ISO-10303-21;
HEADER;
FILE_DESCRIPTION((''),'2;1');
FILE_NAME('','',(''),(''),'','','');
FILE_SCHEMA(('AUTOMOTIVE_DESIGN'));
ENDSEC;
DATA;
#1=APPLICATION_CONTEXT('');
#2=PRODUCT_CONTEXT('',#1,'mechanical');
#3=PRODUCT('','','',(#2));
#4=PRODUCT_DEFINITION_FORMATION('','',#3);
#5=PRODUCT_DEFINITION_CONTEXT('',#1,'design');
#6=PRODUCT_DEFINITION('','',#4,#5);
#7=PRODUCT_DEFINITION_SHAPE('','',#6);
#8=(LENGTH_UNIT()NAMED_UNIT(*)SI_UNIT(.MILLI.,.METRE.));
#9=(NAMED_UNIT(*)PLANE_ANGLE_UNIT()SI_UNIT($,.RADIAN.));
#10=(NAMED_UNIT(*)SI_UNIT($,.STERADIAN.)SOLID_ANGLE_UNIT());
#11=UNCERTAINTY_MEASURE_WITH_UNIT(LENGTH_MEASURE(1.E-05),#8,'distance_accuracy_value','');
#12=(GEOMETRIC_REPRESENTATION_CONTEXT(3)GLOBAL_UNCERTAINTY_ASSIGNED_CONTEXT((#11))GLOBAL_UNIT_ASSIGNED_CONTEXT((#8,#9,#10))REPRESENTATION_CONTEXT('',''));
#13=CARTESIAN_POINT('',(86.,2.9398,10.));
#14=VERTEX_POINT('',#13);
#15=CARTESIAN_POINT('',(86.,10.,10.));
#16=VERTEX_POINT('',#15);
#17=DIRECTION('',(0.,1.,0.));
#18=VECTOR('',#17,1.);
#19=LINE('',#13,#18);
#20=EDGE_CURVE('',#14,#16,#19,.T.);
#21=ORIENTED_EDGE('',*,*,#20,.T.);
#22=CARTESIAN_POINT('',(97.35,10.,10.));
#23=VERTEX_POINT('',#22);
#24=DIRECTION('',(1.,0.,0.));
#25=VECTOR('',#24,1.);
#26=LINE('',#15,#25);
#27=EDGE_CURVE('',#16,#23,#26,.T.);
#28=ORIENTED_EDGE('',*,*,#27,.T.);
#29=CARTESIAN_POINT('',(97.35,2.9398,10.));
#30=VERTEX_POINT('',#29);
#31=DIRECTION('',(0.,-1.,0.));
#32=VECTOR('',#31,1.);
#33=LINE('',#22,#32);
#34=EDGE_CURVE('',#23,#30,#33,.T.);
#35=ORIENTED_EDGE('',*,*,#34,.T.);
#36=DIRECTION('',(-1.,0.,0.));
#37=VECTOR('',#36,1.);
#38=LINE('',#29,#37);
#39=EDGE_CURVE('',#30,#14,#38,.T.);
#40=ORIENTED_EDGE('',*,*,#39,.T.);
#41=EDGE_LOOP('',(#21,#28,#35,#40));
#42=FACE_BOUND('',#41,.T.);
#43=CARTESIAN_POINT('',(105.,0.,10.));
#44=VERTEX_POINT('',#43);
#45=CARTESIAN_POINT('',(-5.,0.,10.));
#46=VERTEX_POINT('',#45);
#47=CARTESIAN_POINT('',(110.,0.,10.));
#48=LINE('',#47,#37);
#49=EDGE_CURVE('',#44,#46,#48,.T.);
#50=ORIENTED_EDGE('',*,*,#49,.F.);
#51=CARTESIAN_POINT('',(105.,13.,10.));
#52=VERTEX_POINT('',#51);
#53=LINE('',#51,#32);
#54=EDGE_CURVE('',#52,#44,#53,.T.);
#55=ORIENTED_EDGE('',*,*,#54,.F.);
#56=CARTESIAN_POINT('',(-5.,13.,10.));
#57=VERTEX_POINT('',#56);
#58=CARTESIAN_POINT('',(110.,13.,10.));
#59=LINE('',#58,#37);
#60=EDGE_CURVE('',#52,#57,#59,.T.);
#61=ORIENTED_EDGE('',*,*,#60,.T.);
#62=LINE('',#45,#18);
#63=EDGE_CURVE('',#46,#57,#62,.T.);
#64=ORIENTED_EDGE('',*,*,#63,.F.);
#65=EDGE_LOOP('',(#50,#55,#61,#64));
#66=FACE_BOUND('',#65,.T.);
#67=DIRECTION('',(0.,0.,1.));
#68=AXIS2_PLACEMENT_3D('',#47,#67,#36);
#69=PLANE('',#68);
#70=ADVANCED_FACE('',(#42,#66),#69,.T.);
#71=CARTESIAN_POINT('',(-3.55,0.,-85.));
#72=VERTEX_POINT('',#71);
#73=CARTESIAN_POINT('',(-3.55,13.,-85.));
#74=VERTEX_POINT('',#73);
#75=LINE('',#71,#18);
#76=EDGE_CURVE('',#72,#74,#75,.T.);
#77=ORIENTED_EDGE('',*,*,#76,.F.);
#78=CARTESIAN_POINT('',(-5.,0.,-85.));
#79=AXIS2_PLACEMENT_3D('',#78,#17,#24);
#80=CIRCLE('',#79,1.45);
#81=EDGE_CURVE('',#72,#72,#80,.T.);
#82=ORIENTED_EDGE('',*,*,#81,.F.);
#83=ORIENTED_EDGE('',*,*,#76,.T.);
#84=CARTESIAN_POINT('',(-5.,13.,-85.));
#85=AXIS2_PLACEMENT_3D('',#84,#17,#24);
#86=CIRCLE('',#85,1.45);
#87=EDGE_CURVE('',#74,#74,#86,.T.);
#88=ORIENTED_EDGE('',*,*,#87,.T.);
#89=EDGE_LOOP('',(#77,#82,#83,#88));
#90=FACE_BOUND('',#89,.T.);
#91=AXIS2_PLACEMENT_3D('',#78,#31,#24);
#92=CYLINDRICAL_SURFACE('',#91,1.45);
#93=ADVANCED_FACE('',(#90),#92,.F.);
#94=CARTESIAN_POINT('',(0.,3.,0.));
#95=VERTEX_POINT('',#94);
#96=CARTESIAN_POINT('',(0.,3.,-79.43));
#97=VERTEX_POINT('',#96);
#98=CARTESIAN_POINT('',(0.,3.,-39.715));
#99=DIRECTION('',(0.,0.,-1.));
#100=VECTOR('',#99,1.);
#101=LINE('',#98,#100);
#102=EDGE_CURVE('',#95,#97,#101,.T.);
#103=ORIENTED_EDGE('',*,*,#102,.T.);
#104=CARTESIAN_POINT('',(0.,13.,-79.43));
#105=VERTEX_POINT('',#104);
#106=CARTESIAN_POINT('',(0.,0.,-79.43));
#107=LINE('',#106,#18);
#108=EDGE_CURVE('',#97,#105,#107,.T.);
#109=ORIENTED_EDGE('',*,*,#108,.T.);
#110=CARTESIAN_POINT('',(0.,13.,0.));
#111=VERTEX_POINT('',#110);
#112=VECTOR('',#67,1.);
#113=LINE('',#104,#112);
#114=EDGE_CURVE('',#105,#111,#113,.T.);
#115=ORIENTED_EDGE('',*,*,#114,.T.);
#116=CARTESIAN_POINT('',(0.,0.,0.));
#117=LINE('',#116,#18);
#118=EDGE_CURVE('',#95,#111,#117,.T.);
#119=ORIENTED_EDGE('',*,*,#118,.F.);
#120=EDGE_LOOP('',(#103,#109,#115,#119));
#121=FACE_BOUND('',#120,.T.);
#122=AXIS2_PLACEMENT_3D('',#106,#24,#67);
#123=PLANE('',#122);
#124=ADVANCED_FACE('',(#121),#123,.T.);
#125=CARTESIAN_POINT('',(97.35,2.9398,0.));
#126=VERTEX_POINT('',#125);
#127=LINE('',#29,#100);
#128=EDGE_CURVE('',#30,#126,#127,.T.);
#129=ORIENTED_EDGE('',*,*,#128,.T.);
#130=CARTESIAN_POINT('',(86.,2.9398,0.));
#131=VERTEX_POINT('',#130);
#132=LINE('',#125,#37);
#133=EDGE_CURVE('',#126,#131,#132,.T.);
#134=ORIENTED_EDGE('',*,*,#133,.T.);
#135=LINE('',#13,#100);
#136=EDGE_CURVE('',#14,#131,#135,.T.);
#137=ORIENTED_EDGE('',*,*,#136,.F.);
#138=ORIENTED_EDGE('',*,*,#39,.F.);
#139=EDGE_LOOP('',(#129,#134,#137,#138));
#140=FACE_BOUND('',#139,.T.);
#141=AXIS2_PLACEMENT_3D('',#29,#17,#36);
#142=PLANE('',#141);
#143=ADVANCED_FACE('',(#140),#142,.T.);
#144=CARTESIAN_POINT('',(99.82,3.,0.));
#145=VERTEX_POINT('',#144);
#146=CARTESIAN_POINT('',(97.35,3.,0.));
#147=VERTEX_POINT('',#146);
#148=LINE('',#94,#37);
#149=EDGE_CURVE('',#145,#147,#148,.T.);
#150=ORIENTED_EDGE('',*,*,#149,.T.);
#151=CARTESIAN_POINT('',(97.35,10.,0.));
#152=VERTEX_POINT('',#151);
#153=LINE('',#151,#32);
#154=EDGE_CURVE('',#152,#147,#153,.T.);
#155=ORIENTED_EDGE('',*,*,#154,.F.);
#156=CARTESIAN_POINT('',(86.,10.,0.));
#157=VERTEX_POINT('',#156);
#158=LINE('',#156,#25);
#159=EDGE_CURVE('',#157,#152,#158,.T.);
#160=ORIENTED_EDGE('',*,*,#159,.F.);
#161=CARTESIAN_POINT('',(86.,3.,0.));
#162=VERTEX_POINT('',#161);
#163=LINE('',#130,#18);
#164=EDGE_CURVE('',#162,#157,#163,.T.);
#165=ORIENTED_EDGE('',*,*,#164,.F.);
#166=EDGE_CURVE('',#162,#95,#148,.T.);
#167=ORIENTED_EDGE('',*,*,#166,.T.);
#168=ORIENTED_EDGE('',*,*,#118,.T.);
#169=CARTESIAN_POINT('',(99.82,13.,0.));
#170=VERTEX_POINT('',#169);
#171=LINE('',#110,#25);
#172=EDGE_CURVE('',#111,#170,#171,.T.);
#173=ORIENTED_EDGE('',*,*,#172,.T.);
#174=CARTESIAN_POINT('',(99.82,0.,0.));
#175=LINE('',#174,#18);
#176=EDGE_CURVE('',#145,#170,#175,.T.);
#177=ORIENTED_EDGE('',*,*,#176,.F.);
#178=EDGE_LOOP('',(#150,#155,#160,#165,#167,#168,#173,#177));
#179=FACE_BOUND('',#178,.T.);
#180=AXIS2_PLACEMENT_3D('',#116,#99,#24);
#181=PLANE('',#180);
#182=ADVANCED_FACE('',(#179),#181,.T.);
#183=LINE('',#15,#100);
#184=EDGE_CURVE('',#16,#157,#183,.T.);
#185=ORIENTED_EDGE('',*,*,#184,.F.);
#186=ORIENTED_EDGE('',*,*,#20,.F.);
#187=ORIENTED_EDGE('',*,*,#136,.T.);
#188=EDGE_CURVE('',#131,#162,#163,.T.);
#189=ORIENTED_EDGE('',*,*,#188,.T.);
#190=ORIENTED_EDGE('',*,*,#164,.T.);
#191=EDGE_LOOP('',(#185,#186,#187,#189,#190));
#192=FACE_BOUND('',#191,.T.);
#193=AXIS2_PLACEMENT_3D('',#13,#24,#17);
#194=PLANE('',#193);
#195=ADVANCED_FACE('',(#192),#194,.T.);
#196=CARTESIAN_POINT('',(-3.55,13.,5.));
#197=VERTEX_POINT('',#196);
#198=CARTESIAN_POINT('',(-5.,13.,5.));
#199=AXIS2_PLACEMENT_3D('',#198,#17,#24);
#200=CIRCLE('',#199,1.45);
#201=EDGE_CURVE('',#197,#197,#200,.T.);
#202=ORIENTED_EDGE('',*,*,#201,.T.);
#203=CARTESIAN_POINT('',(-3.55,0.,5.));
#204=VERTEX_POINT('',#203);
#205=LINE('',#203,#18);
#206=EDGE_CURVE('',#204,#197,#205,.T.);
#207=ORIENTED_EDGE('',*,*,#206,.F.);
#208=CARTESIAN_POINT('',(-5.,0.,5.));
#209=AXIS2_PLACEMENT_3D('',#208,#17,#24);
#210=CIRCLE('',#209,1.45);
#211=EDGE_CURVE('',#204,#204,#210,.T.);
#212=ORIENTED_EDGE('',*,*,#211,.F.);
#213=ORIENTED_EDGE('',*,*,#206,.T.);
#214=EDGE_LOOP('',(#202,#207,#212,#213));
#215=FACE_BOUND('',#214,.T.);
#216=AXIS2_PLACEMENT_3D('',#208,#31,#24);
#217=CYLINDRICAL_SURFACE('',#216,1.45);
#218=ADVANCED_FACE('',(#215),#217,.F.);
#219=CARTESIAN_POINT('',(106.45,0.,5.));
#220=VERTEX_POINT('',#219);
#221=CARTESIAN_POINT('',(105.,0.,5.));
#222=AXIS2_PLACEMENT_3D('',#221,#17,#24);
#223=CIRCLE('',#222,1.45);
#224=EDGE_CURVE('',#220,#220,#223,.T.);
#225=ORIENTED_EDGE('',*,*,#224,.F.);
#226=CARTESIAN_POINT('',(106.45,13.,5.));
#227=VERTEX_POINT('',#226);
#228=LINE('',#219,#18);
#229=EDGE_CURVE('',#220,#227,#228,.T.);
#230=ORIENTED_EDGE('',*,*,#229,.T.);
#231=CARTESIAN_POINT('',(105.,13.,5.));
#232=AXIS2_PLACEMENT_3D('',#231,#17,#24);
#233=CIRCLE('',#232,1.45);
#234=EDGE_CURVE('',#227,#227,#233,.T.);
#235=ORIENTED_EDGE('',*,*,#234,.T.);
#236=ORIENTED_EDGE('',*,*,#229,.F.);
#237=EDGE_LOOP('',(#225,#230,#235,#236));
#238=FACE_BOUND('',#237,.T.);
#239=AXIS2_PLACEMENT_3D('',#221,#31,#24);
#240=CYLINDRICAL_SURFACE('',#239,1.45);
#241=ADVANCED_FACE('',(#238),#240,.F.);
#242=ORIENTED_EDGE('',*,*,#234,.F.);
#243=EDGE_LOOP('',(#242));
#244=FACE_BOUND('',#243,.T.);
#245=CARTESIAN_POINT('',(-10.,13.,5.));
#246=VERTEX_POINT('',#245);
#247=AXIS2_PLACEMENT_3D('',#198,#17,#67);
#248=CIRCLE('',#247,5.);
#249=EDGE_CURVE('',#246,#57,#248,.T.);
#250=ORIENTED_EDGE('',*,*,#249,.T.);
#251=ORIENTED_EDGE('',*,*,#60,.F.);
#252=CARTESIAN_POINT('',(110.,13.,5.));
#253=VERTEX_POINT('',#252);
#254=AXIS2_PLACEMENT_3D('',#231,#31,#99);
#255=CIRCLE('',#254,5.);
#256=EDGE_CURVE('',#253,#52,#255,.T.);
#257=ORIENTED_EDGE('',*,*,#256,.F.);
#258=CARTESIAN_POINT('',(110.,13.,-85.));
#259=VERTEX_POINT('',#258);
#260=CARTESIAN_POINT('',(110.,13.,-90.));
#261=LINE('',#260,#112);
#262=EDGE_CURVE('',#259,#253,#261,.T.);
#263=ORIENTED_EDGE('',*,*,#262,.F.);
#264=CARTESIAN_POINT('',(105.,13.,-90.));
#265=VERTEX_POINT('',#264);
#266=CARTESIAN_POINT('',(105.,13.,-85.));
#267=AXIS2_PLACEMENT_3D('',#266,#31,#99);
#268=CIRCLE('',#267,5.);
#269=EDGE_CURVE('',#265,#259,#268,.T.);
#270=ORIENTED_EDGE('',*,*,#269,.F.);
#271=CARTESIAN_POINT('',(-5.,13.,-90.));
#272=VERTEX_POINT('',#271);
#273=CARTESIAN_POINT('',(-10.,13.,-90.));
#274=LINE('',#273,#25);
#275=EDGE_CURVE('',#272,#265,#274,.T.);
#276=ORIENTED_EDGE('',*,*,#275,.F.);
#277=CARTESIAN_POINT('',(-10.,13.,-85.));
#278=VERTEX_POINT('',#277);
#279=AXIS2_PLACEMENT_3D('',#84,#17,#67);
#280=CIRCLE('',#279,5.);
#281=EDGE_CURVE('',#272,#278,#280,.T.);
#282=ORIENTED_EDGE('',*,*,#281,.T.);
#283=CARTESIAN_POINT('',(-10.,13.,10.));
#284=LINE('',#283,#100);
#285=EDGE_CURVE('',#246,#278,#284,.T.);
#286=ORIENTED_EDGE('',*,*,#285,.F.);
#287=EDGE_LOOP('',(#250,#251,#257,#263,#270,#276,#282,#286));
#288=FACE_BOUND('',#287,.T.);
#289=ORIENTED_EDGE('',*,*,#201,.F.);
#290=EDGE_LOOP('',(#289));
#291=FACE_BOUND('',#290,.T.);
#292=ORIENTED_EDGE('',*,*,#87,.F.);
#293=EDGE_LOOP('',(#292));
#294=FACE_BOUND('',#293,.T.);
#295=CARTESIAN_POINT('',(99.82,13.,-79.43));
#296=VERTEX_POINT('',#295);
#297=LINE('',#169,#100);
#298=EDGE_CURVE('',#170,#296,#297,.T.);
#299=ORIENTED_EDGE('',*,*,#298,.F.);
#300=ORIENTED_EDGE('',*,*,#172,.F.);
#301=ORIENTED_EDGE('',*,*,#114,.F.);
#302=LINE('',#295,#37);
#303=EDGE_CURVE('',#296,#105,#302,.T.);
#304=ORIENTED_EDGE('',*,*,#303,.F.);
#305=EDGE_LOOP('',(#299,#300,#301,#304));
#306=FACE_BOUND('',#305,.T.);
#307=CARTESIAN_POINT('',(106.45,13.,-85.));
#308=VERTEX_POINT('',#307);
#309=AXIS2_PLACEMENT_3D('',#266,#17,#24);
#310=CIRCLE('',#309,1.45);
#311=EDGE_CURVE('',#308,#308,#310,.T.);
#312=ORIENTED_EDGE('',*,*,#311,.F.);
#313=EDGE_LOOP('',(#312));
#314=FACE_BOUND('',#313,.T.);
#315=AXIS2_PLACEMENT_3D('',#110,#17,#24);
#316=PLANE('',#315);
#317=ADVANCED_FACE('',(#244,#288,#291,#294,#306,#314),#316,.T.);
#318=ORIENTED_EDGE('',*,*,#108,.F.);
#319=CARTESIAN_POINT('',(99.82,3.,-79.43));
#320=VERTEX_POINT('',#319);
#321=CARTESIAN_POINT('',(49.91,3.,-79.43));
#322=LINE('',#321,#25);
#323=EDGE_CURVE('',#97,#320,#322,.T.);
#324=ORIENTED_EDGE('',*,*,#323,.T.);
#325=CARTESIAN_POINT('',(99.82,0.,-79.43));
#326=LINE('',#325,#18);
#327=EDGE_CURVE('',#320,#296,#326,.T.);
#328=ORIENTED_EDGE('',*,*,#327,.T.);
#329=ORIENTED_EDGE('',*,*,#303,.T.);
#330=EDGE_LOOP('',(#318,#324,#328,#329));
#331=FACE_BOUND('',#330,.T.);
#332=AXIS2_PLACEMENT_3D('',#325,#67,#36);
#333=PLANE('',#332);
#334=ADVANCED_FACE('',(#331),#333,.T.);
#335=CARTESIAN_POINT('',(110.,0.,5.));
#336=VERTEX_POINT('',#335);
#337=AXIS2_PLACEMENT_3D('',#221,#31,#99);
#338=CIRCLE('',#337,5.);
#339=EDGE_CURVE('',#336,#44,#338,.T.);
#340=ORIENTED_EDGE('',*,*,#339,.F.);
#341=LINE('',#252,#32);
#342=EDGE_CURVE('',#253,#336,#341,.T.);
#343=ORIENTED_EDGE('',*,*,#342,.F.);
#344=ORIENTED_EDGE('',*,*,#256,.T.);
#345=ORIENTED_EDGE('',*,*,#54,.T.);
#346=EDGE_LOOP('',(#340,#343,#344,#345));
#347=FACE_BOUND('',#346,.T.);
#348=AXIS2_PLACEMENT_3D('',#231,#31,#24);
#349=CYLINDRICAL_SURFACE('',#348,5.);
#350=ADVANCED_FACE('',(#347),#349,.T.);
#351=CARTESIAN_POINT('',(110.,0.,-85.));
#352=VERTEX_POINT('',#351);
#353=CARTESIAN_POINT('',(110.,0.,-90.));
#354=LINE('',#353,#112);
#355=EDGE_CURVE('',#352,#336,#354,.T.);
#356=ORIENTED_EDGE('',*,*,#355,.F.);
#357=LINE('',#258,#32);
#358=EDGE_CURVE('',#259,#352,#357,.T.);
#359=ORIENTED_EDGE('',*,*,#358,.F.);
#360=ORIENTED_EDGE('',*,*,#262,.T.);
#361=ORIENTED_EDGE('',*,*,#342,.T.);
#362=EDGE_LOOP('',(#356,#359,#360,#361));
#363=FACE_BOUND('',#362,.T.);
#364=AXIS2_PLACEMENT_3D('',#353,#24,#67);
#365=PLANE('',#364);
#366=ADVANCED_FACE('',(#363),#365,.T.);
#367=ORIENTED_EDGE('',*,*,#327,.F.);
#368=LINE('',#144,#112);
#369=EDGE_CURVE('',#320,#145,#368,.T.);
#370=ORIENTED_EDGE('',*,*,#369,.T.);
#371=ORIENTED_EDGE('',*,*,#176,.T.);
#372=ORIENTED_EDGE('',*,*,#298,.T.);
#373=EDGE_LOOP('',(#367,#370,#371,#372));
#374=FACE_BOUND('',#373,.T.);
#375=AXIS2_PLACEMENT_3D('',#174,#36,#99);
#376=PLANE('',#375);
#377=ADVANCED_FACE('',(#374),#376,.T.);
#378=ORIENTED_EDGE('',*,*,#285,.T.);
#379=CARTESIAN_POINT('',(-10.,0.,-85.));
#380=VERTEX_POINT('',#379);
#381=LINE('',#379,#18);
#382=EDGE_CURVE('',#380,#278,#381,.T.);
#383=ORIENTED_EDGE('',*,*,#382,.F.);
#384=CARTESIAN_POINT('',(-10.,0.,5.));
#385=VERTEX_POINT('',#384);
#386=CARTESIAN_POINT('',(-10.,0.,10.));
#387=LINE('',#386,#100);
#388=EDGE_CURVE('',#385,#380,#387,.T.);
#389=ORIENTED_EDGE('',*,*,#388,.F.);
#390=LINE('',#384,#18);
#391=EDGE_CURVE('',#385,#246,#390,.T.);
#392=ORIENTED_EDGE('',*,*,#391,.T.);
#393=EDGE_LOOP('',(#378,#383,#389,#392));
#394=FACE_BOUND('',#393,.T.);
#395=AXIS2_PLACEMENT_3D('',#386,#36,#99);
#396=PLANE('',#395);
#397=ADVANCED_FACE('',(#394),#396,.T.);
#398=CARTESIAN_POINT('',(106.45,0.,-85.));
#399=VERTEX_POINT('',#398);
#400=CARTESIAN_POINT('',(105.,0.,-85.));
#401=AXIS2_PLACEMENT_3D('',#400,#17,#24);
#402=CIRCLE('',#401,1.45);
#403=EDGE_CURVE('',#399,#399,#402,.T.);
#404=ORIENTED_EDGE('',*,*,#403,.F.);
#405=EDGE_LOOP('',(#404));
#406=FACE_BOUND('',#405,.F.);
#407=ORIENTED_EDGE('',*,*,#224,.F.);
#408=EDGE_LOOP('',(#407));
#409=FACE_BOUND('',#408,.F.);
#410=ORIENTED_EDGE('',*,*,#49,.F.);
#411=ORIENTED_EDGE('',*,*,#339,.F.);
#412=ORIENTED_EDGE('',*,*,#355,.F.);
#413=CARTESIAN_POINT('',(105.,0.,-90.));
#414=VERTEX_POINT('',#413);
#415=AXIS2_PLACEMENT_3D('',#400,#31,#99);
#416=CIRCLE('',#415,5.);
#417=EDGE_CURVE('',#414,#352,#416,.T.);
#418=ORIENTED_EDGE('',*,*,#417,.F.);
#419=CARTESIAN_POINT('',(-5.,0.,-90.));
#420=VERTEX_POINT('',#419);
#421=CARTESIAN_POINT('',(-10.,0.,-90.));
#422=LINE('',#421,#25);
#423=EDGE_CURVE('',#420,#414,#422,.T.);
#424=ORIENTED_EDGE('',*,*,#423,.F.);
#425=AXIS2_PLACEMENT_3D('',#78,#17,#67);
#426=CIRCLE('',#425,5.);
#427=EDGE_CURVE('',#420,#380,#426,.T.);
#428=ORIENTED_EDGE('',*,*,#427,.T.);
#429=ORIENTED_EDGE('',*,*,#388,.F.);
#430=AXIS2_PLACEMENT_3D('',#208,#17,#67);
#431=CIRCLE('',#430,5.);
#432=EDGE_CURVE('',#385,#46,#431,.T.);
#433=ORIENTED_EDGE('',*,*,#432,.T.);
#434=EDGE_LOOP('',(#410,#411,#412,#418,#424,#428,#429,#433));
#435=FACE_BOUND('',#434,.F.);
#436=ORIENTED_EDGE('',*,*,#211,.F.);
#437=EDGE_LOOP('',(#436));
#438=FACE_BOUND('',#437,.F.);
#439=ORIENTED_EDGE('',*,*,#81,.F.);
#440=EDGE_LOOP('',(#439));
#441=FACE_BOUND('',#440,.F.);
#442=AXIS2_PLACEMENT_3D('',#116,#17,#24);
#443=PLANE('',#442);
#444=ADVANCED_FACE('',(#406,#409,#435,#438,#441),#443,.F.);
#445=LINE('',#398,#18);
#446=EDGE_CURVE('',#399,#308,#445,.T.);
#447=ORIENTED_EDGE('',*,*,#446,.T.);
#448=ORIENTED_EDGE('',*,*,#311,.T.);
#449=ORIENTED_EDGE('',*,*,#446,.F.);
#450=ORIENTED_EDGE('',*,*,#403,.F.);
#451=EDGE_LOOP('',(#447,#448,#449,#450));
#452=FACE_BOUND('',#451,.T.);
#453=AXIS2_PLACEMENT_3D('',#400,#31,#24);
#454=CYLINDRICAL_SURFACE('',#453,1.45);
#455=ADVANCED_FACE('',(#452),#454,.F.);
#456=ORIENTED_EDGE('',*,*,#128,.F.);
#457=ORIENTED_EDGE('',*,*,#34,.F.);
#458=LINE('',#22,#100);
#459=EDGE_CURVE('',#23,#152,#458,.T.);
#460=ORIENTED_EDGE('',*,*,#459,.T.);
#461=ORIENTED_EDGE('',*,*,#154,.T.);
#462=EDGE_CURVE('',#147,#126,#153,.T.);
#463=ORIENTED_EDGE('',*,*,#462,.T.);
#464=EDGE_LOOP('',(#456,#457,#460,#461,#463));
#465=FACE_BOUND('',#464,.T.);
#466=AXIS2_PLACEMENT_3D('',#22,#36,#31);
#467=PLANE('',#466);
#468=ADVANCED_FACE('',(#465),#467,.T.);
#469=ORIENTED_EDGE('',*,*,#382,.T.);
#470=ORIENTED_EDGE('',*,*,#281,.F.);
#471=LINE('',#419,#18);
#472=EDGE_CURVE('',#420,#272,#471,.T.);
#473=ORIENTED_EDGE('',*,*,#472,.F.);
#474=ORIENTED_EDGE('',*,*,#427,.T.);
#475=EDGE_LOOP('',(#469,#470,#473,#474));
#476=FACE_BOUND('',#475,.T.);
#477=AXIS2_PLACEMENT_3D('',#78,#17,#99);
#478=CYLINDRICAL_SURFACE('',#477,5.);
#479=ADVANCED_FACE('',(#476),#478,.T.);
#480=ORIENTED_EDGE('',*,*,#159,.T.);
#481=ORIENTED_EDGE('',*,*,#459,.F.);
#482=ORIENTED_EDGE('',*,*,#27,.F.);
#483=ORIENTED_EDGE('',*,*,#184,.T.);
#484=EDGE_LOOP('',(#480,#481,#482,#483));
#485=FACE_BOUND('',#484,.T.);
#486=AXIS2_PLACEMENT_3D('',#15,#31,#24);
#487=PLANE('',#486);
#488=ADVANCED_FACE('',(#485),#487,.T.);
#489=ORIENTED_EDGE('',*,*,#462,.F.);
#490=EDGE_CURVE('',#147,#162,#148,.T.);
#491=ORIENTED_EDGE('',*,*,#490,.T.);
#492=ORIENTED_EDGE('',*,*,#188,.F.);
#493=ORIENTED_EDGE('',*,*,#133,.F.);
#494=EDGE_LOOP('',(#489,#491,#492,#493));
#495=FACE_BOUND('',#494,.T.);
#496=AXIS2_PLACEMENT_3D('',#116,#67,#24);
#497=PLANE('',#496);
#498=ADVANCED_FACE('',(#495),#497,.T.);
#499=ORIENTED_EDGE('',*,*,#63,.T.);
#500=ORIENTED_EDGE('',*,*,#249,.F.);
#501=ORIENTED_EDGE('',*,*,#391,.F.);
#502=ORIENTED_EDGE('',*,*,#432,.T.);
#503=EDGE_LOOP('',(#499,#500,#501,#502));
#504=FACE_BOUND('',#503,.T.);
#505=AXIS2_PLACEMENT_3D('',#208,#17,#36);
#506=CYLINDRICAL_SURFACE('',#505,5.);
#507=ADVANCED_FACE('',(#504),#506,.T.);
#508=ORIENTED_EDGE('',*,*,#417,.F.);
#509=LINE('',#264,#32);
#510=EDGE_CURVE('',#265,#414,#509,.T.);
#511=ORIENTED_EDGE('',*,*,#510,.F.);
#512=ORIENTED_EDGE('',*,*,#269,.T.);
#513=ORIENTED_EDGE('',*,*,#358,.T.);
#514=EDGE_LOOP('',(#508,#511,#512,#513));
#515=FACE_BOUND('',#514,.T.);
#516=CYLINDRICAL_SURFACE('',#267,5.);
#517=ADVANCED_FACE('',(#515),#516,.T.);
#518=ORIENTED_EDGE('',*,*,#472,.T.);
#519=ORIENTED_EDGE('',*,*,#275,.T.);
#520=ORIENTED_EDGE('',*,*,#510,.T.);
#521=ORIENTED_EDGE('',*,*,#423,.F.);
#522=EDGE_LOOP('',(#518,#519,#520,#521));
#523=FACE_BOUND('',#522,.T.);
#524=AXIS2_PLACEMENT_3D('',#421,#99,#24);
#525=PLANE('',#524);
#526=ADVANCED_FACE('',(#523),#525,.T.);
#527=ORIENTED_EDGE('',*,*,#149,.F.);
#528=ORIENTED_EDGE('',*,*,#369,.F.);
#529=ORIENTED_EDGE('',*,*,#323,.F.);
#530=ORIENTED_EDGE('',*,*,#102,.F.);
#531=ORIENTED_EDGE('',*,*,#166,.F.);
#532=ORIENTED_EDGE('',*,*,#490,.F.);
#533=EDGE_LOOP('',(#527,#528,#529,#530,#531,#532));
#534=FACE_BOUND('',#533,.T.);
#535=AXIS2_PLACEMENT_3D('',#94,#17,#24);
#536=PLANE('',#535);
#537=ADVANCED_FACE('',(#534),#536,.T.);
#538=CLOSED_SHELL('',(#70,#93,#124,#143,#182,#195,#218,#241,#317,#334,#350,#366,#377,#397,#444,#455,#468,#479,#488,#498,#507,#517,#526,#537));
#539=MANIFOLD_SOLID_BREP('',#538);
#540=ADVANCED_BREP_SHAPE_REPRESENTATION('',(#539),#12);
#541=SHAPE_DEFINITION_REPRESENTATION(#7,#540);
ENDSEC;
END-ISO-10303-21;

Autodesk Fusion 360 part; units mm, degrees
sketch "hackpad base" plane through (0, 0, 0) normal (0, 1, 0) x (1, 0, 0)
  line L0 (0, 79.43) -> (0, 0)
  line L1 (0, 0) -> (99.82, 0)
  line L2 (99.82, 0) -> (99.82, 79.43)
  line L3 (99.82, 79.43) -> (0, 79.43)
  line L4 (-10, 90) -> (110, 90)
  line L5 (-10, -10) -> (-10, 90)
  line L6 (110, -10) -> (-10, -10)
  line L7 (110, 90) -> (110, -10)
  circle A0 centre (-5, -5) radius 1.45
  circle A1 centre (105, -5) radius 1.45
  circle A2 centre (105, 85) radius 1.45
  circle A3 centre (-5, 85) radius 1.45
extrude "Extrude1" add sketch "hackpad base" along normal blind 3 contours L0 L1 L2 L3 | L4 L5 L6 L7 makes body 1
extrude "Extrude2" add sketch "hackpad base" along normal blind 13 bodies 1
sketch "yes" plane through (0, 13, 0) normal (0, 1, 0) x (1, 0, 0)
  line L0 (4.775, 74.075) -> (17.775, 74.075)
  line L1 (4.775, 60.075) -> (17.775, 60.075)
  line L2 (4.275, 73.575) -> (4.275, 60.575)
  line L3 (18.275, 73.575) -> (18.275, 60.575)
  arc A0 (4.775, 74.075) -> (4.275, 73.575) centre (4.775, 73.575) ccw
  arc A1 (18.275, 73.575) -> (17.775, 74.075) centre (17.775, 73.575) ccw
  arc A2 (4.275, 60.575) -> (4.775, 60.075) centre (4.775, 60.575) ccw
  arc A3 (17.775, 60.075) -> (18.275, 60.575) centre (17.775, 60.575) ccw
  line L4 (23.825, 74.075) -> (36.825, 74.075)
  line L5 (23.825, 60.075) -> (36.825, 60.075)
  line L6 (23.325, 73.575) -> (23.325, 60.575)
  line L7 (37.325, 73.575) -> (37.325, 60.575)
  arc A4 (23.825, 74.075) -> (23.325, 73.575) centre (23.825, 73.575) ccw
  arc A5 (37.325, 73.575) -> (36.825, 74.075) centre (36.825, 73.575) ccw
  arc A6 (23.325, 60.575) -> (23.825, 60.075) centre (23.825, 60.575) ccw
  arc A7 (36.825, 60.075) -> (37.325, 60.575) centre (36.825, 60.575) ccw
  line L8 (42.875, 74.075) -> (55.875, 74.075)
  line L9 (42.875, 60.075) -> (55.875, 60.075)
  line L10 (42.375, 73.575) -> (42.375, 60.575)
  line L11 (56.375, 73.575) -> (56.375, 60.575)
  arc A8 (42.875, 74.075) -> (42.375, 73.575) centre (42.875, 73.575) ccw
  arc A9 (56.375, 73.575) -> (55.875, 74.075) centre (55.875, 73.575) ccw
  arc A10 (42.375, 60.575) -> (42.875, 60.075) centre (42.875, 60.575) ccw
  arc A11 (55.875, 60.075) -> (56.375, 60.575) centre (55.875, 60.575) ccw
  line L12 (61.925, 74.075) -> (74.925, 74.075)
  line L13 (61.925, 60.075) -> (74.925, 60.075)
  line L14 (61.425, 73.575) -> (61.425, 60.575)
  line L15 (75.425, 73.575) -> (75.425, 60.575)
  arc A12 (61.925, 74.075) -> (61.425, 73.575) centre (61.925, 73.575) ccw
  arc A13 (75.425, 73.575) -> (74.925, 74.075) centre (74.925, 73.575) ccw
  arc A14 (61.425, 60.575) -> (61.925, 60.075) centre (61.925, 60.575) ccw
  arc A15 (74.925, 60.075) -> (75.425, 60.575) centre (74.925, 60.575) ccw
  line L16 (4.775, 55.025) -> (17.775, 55.025)
  line L17 (4.775, 41.025) -> (17.775, 41.025)
  line L18 (4.275, 54.525) -> (4.275, 41.525)
  line L19 (18.275, 54.525) -> (18.275, 41.525)
  arc A16 (4.775, 55.025) -> (4.275, 54.525) centre (4.775, 54.525) ccw
  arc A17 (18.275, 54.525) -> (17.775, 55.025) centre (17.775, 54.525) ccw
  arc A18 (4.275, 41.525) -> (4.775, 41.025) centre (4.775, 41.525) ccw
  arc A19 (17.775, 41.025) -> (18.275, 41.525) centre (17.775, 41.525) ccw
  line L20 (23.825, 55.025) -> (36.825, 55.025)
  line L21 (23.825, 41.025) -> (36.825, 41.025)
  line L22 (23.325, 54.525) -> (23.325, 41.525)
  line L23 (37.325, 54.525) -> (37.325, 41.525)
  arc A20 (23.825, 55.025) -> (23.325, 54.525) centre (23.825, 54.525) ccw
  arc A21 (37.325, 54.525) -> (36.825, 55.025) centre (36.825, 54.525) ccw
  arc A22 (23.325, 41.525) -> (23.825, 41.025) centre (23.825, 41.525) ccw
  arc A23 (36.825, 41.025) -> (37.325, 41.525) centre (36.825, 41.525) ccw
  line L24 (42.875, 55.025) -> (55.875, 55.025)
  line L25 (42.875, 41.025) -> (55.875, 41.025)
  line L26 (42.375, 54.525) -> (42.375, 41.525)
  line L27 (56.375, 54.525) -> (56.375, 41.525)
  arc A24 (42.875, 55.025) -> (42.375, 54.525) centre (42.875, 54.525) ccw
  arc A25 (56.375, 54.525) -> (55.875, 55.025) centre (55.875, 54.525) ccw
  arc A26 (42.375, 41.525) -> (42.875, 41.025) centre (42.875, 41.525) ccw
  arc A27 (55.875, 41.025) -> (56.375, 41.525) centre (55.875, 41.525) ccw
  line L28 (61.925, 55.025) -> (74.925, 55.025)
  line L29 (61.925, 41.025) -> (74.925, 41.025)
  line L30 (61.425, 54.525) -> (61.425, 41.525)
  line L31 (75.425, 54.525) -> (75.425, 41.525)
  arc A28 (61.925, 55.025) -> (61.425, 54.525) centre (61.925, 54.525) ccw
  arc A29 (75.425, 54.525) -> (74.925, 55.025) centre (74.925, 54.525) ccw
  arc A30 (61.425, 41.525) -> (61.925, 41.025) centre (61.925, 41.525) ccw
  arc A31 (74.925, 41.025) -> (75.425, 41.525) centre (74.925, 41.525) ccw
  line L32 (4.775, 35.975) -> (17.775, 35.975)
  line L33 (4.775, 21.975) -> (17.775, 21.975)
  line L34 (4.275, 35.475) -> (4.275, 22.475)
  line L35 (18.275, 35.475) -> (18.275, 22.475)
  arc A32 (4.775, 35.975) -> (4.275, 35.475) centre (4.775, 35.475) ccw
  arc A33 (18.275, 35.475) -> (17.775, 35.975) centre (17.775, 35.475) ccw
  arc A34 (4.275, 22.475) -> (4.775, 21.975) centre (4.775, 22.475) ccw
  arc A35 (17.775, 21.975) -> (18.275, 22.475) centre (17.775, 22.475) ccw
  line L36 (23.825, 35.975) -> (36.825, 35.975)
  line L37 (23.825, 21.975) -> (36.825, 21.975)
  line L38 (23.325, 35.475) -> (23.325, 22.475)
  line L39 (37.325, 35.475) -> (37.325, 22.475)
  arc A36 (23.825, 35.975) -> (23.325, 35.475) centre (23.825, 35.475) ccw
  arc A37 (37.325, 35.475) -> (36.825, 35.975) centre (36.825, 35.475) ccw
  arc A38 (23.325, 22.475) -> (23.825, 21.975) centre (23.825, 22.475) ccw
  arc A39 (36.825, 21.975) -> (37.325, 22.475) centre (36.825, 22.475) ccw
  line L40 (42.875, 35.975) -> (55.875, 35.975)
  line L41 (42.875, 21.975) -> (55.875, 21.975)
  line L42 (42.375, 35.475) -> (42.375, 22.475)
  line L43 (56.375, 35.475) -> (56.375, 22.475)
  arc A40 (42.875, 35.975) -> (42.375, 35.475) centre (42.875, 35.475) ccw
  arc A41 (56.375, 35.475) -> (55.875, 35.975) centre (55.875, 35.475) ccw
  arc A42 (42.375, 22.475) -> (42.875, 21.975) centre (42.875, 22.475) ccw
  arc A43 (55.875, 21.975) -> (56.375, 22.475) centre (55.875, 22.475) ccw
  line L44 (61.925, 35.975) -> (74.925, 35.975)
  line L45 (61.925, 21.975) -> (74.925, 21.975)
  line L46 (61.425, 35.475) -> (61.425, 22.475)
  line L47 (75.425, 35.475) -> (75.425, 22.475)
  arc A44 (61.925, 35.975) -> (61.425, 35.475) centre (61.925, 35.475) ccw
  arc A45 (75.425, 35.475) -> (74.925, 35.975) centre (74.925, 35.475) ccw
  arc A46 (61.425, 22.475) -> (61.925, 21.975) centre (61.925, 22.475) ccw
  arc A47 (74.925, 21.975) -> (75.425, 22.475) centre (74.925, 22.475) ccw
  line L48 (4.775, 16.925) -> (17.775, 16.925)
  line L49 (4.775, 2.925) -> (17.775, 2.925)
  line L50 (4.275, 16.425) -> (4.275, 3.425)
  line L51 (18.275, 16.425) -> (18.275, 3.425)
  arc A48 (4.775, 16.925) -> (4.275, 16.425) centre (4.775, 16.425) ccw
  arc A49 (18.275, 16.425) -> (17.775, 16.925) centre (17.775, 16.425) ccw
  arc A50 (4.275, 3.425) -> (4.775, 2.925) centre (4.775, 3.425) ccw
  arc A51 (17.775, 2.925) -> (18.275, 3.425) centre (17.775, 3.425) ccw
  line L52 (23.825, 16.925) -> (36.825, 16.925)
  line L53 (23.825, 2.925) -> (36.825, 2.925)
  line L54 (23.325, 16.425) -> (23.325, 3.425)
  line L55 (37.325, 16.425) -> (37.325, 3.425)
  arc A52 (23.825, 16.925) -> (23.325, 16.425) centre (23.825, 16.425) ccw
  arc A53 (37.325, 16.425) -> (36.825, 16.925) centre (36.825, 16.425) ccw
  arc A54 (23.325, 3.425) -> (23.825, 2.925) centre (23.825, 3.425) ccw
  arc A55 (36.825, 2.925) -> (37.325, 3.425) centre (36.825, 3.425) ccw
  line L56 (42.875, 16.925) -> (55.875, 16.925)
  line L57 (42.875, 2.925) -> (55.875, 2.925)
  line L58 (42.375, 16.425) -> (42.375, 3.425)
  line L59 (56.375, 16.425) -> (56.375, 3.425)
  arc A56 (42.875, 16.925) -> (42.375, 16.425) centre (42.875, 16.425) ccw
  arc A57 (56.375, 16.425) -> (55.875, 16.925) centre (55.875, 16.425) ccw
  arc A58 (42.375, 3.425) -> (42.875, 2.925) centre (42.875, 3.425) ccw
  arc A59 (55.875, 2.925) -> (56.375, 3.425) centre (55.875, 3.425) ccw
  line L60 (61.925, 16.925) -> (74.925, 16.925)
  line L61 (61.925, 2.925) -> (74.925, 2.925)
  line L62 (61.425, 16.425) -> (61.425, 3.425)
  line L63 (75.425, 16.425) -> (75.425, 3.425)
  arc A60 (61.925, 16.925) -> (61.425, 16.425) centre (61.925, 16.425) ccw
  arc A61 (75.425, 16.425) -> (74.925, 16.925) centre (74.925, 16.425) ccw
  arc A62 (61.425, 3.425) -> (61.925, 2.925) centre (61.925, 3.425) ccw
  arc A63 (74.925, 2.925) -> (75.425, 3.425) centre (74.925, 3.425) ccw
  line L64 (1.75, 0.4) -> (77.95, 0.4)
  line L65 (1.75, 76.6) -> (77.95, 76.6)
  line L66 (1.75, 0.4) -> (1.75, 76.6)
  line L67 (77.95, 0.4) -> (77.95, 76.6)
sketch "Sketch3" plane through (0, 13, 0) normal (0, 1, 0) x (-1, 0, 0)
  circle A0 centre (5, 5) radius 1.45
  line L0 (0, -79.43) -> (-99.82, -79.43)
  line L1 (-99.82, -79.43) -> (-99.82, 0)
  line L2 (-99.82, 0) -> (0, 0)
  line L3 (0, 0) -> (0, -79.43)
  circle A1 centre (-105, 5) radius 1.45
  circle A2 centre (5, -85) radius 1.45
  circle A3 centre (-105, -85) radius 1.45
  line L4 (-110, -90) -> (10, -90)
  line L5 (10, -90) -> (10, 10)
  line L6 (10, 10) -> (-110, 10)
  line L7 (-110, 10) -> (-110, -90)
  line L8 (0, -79.43) -> (-99.82, -79.43)
  line L9 (-99.82, -79.43) -> (-99.82, 0)
  line L10 (-99.82, 0) -> (0, 0)
  line L11 (0, 0) -> (0, -79.43)
extrude "Extrude3" add sketch "Sketch3" along normal blind 3 separate body contours L0 L1 L2 L3 L8 L9 L10 L11 | L4 L5 L6 L7 makes body 2
extrude "Extrude4" cut sketch "yes" along normal blind 5 contours L0 L1 L2 L3 A0 A1 A2 A3 | L4 L5 L6 L7 A4 A5 A6 A7 | L8 L9 L10 L11 A8 A9 A10 A11 | L12 L13 L14 L15 A12 A13 A14 A15 | L16 L17 L18 L19 A16 A17 A18 A19 | L20 L21 L22 L23 A20 A21 A22 A23 | L24 L25 L26 L27 A24 A25 A26 A27 | L28 L29 L30 L31 A28 A29 A30 A31 | L32 L33 L34 L35 A32 A33 A34 A35 | L36 L37 L38 L39 A36 A37 A38 A39 | L40 L41 L42 L43 A40 A41 A42 A43 | L44 L45 L46 L47 A44 A45 A46 A47 | L48 L49 L50 L51 A48 A49 A50 A51 | L52 L53 L54 L55 A52 A53 A54 A55 | L56 L57 L58 L59 A56 A57 A58 A59 | L60 L61 L62 L63 A60 A61 A62 A63 bodies 2
fillet "Fillet1" radius 5 8 edges at (-10, 6.5, 10) (-10, 6.5, -90) (110, 6.5, -90) (110, 6.5, 10) (-10, 14.5, 10) (-10, 14.5, -90) (110, 14.5, -90) (110, 14.5, 10) on bodies 1 2
sketch "Sketch4" plane through (0, 16, 0) normal (0, 1, 0) x (-1, 0, 0)
  arc A0 (-105, 10) -> (-110, 5) centre (-105, 5) ccw
  line L0 (-110, 5) -> (-110, -85)
  arc A1 (-110, -85) -> (-105, -90) centre (-105, -85) ccw
  line L1 (-105, -90) -> (5, -90)
  arc A2 (5, -90) -> (10, -85) centre (5, -85) ccw
  line L2 (10, -85) -> (10, 5)
  arc A3 (10, 5) -> (5, 10) centre (5, 5) ccw
  line L3 (5, 10) -> (-105, 10)
  line L4 (-4.775, -35.975) -> (-17.775, -35.975)
  arc A4 (-18.275, -35.475) -> (-17.775, -35.975) centre (-17.775, -35.475) ccw
  line L5 (-18.275, -35.475) -> (-18.275, -22.475)
  arc A5 (-17.775, -21.975) -> (-18.275, -22.475) centre (-17.775, -22.475) ccw
  line L6 (-17.775, -21.975) -> (-4.775, -21.975)
  arc A6 (-4.275, -22.475) -> (-4.775, -21.975) centre (-4.775, -22.475) ccw
  line L7 (-4.275, -22.475) -> (-4.275, -35.475)
  arc A7 (-4.775, -35.975) -> (-4.275, -35.475) centre (-4.775, -35.475) ccw
  line L8 (-4.775, -74.075) -> (-17.775, -74.075)
  arc A8 (-18.275, -73.575) -> (-17.775, -74.075) centre (-17.775, -73.575) ccw
  line L9 (-18.275, -73.575) -> (-18.275, -60.575)
  arc A9 (-17.775, -60.075) -> (-18.275, -60.575) centre (-17.775, -60.575) ccw
  line L10 (-17.775, -60.075) -> (-4.775, -60.075)
  arc A10 (-4.275, -60.575) -> (-4.775, -60.075) centre (-4.775, -60.575) ccw
  line L11 (-4.275, -60.575) -> (-4.275, -73.575)
  arc A11 (-4.775, -74.075) -> (-4.275, -73.575) centre (-4.775, -73.575) ccw
  line L12 (-42.875, -55.025) -> (-55.875, -55.025)
  arc A12 (-56.375, -54.525) -> (-55.875, -55.025) centre (-55.875, -54.525) ccw
  line L13 (-56.375, -54.525) -> (-56.375, -41.525)
  arc A13 (-55.875, -41.025) -> (-56.375, -41.525) centre (-55.875, -41.525) ccw
  line L14 (-55.875, -41.025) -> (-42.875, -41.025)
  arc A14 (-42.375, -41.525) -> (-42.875, -41.025) centre (-42.875, -41.525) ccw
  line L15 (-42.375, -41.525) -> (-42.375, -54.525)
  arc A15 (-42.875, -55.025) -> (-42.375, -54.525) centre (-42.875, -54.525) ccw
  line L16 (-61.925, -16.925) -> (-74.925, -16.925)
  arc A16 (-75.425, -16.425) -> (-74.925, -16.925) centre (-74.925, -16.425) ccw
  line L17 (-75.425, -16.425) -> (-75.425, -3.425)
  arc A17 (-74.925, -2.925) -> (-75.425, -3.425) centre (-74.925, -3.425) ccw
  line L18 (-74.925, -2.925) -> (-61.925, -2.925)
  arc A18 (-61.425, -3.425) -> (-61.925, -2.925) centre (-61.925, -3.425) ccw
  line L19 (-61.425, -3.425) -> (-61.425, -16.425)
  arc A19 (-61.925, -16.925) -> (-61.425, -16.425) centre (-61.925, -16.425) ccw
  line L20 (-61.925, -35.975) -> (-74.925, -35.975)
  arc A20 (-75.425, -35.475) -> (-74.925, -35.975) centre (-74.925, -35.475) ccw
  line L21 (-75.425, -35.475) -> (-75.425, -22.475)
  arc A21 (-74.925, -21.975) -> (-75.425, -22.475) centre (-74.925, -22.475) ccw
  line L22 (-74.925, -21.975) -> (-61.925, -21.975)
  arc A22 (-61.425, -22.475) -> (-61.925, -21.975) centre (-61.925, -22.475) ccw
  line L23 (-61.425, -22.475) -> (-61.425, -35.475)
  arc A23 (-61.925, -35.975) -> (-61.425, -35.475) centre (-61.925, -35.475) ccw
  line L24 (-61.925, -74.075) -> (-74.925, -74.075)
  arc A24 (-75.425, -73.575) -> (-74.925, -74.075) centre (-74.925, -73.575) ccw
  line L25 (-75.425, -73.575) -> (-75.425, -60.575)
  arc A25 (-74.925, -60.075) -> (-75.425, -60.575) centre (-74.925, -60.575) ccw
  line L26 (-74.925, -60.075) -> (-61.925, -60.075)
  arc A26 (-61.425, -60.575) -> (-61.925, -60.075) centre (-61.925, -60.575) ccw
  line L27 (-61.425, -60.575) -> (-61.425, -73.575)
  arc A27 (-61.925, -74.075) -> (-61.425, -73.575) centre (-61.925, -73.575) ccw
  line L28 (-4.775, -55.025) -> (-17.775, -55.025)
  arc A28 (-18.275, -54.525) -> (-17.775, -55.025) centre (-17.775, -54.525) ccw
  line L29 (-18.275, -54.525) -> (-18.275, -41.525)
  arc A29 (-17.775, -41.025) -> (-18.275, -41.525) centre (-17.775, -41.525) ccw
  line L30 (-17.775, -41.025) -> (-4.775, -41.025)
  arc A30 (-4.275, -41.525) -> (-4.775, -41.025) centre (-4.775, -41.525) ccw
  line L31 (-4.275, -41.525) -> (-4.275, -54.525)
  arc A31 (-4.775, -55.025) -> (-4.275, -54.525) centre (-4.775, -54.525) ccw
  line L32 (-4.775, -16.925) -> (-17.775, -16.925)
  arc A32 (-18.275, -16.425) -> (-17.775, -16.925) centre (-17.775, -16.425) ccw
  line L33 (-18.275, -16.425) -> (-18.275, -3.425)
  arc A33 (-17.775, -2.925) -> (-18.275, -3.425) centre (-17.775, -3.425) ccw
  line L34 (-17.775, -2.925) -> (-4.775, -2.925)
  arc A34 (-4.275, -3.425) -> (-4.775, -2.925) centre (-4.775, -3.425) ccw
  line L35 (-4.275, -3.425) -> (-4.275, -16.425)
  arc A35 (-4.775, -16.925) -> (-4.275, -16.425) centre (-4.775, -16.425) ccw
  line L36 (-23.825, -35.975) -> (-36.825, -35.975)
  arc A36 (-37.325, -35.475) -> (-36.825, -35.975) centre (-36.825, -35.475) ccw
  line L37 (-37.325, -35.475) -> (-37.325, -22.475)
  arc A37 (-36.825, -21.975) -> (-37.325, -22.475) centre (-36.825, -22.475) ccw
  line L38 (-36.825, -21.975) -> (-23.825, -21.975)
  arc A38 (-23.325, -22.475) -> (-23.825, -21.975) centre (-23.825, -22.475) ccw
  line L39 (-23.325, -22.475) -> (-23.325, -35.475)
  arc A39 (-23.825, -35.975) -> (-23.325, -35.475) centre (-23.825, -35.475) ccw
  line L40 (-23.825, -74.075) -> (-36.825, -74.075)
  arc A40 (-37.325, -73.575) -> (-36.825, -74.075) centre (-36.825, -73.575) ccw
  line L41 (-37.325, -73.575) -> (-37.325, -60.575)
  arc A41 (-36.825, -60.075) -> (-37.325, -60.575) centre (-36.825, -60.575) ccw
  line L42 (-36.825, -60.075) -> (-23.825, -60.075)
  arc A42 (-23.325, -60.575) -> (-23.825, -60.075) centre (-23.825, -60.575) ccw
  line L43 (-23.325, -60.575) -> (-23.325, -73.575)
  arc A43 (-23.825, -74.075) -> (-23.325, -73.575) centre (-23.825, -73.575) ccw
  line L44 (-61.925, -55.025) -> (-74.925, -55.025)
  arc A44 (-75.425, -54.525) -> (-74.925, -55.025) centre (-74.925, -54.525) ccw
  line L45 (-75.425, -54.525) -> (-75.425, -41.525)
  arc A45 (-74.925, -41.025) -> (-75.425, -41.525) centre (-74.925, -41.525) ccw
  line L46 (-74.925, -41.025) -> (-61.925, -41.025)
  arc A46 (-61.425, -41.525) -> (-61.925, -41.025) centre (-61.925, -41.525) ccw
  line L47 (-61.425, -41.525) -> (-61.425, -54.525)
  arc A47 (-61.925, -55.025) -> (-61.425, -54.525) centre (-61.925, -54.525) ccw
  line L48 (-42.875, -16.925) -> (-55.875, -16.925)
  arc A48 (-56.375, -16.425) -> (-55.875, -16.925) centre (-55.875, -16.425) ccw
  line L49 (-56.375, -16.425) -> (-56.375, -3.425)
  arc A49 (-55.875, -2.925) -> (-56.375, -3.425) centre (-55.875, -3.425) ccw
  line L50 (-55.875, -2.925) -> (-42.875, -2.925)
  arc A50 (-42.375, -3.425) -> (-42.875, -2.925) centre (-42.875, -3.425) ccw
  line L51 (-42.375, -3.425) -> (-42.375, -16.425)
  arc A51 (-42.875, -16.925) -> (-42.375, -16.425) centre (-42.875, -16.425) ccw
  line L52 (-42.875, -35.975) -> (-55.875, -35.975)
  arc A52 (-56.375, -35.475) -> (-55.875, -35.975) centre (-55.875, -35.475) ccw
  line L53 (-56.375, -35.475) -> (-56.375, -22.475)
  arc A53 (-55.875, -21.975) -> (-56.375, -22.475) centre (-55.875, -22.475) ccw
  line L54 (-55.875, -21.975) -> (-42.875, -21.975)
  arc A54 (-42.375, -22.475) -> (-42.875, -21.975) centre (-42.875, -22.475) ccw
  line L55 (-42.375, -22.475) -> (-42.375, -35.475)
  arc A55 (-42.875, -35.975) -> (-42.375, -35.475) centre (-42.875, -35.475) ccw
  line L56 (-42.875, -74.075) -> (-55.875, -74.075)
  arc A56 (-56.375, -73.575) -> (-55.875, -74.075) centre (-55.875, -73.575) ccw
  line L57 (-56.375, -73.575) -> (-56.375, -60.575)
  arc A57 (-55.875, -60.075) -> (-56.375, -60.575) centre (-55.875, -60.575) ccw
  line L58 (-55.875, -60.075) -> (-42.875, -60.075)
  arc A58 (-42.375, -60.575) -> (-42.875, -60.075) centre (-42.875, -60.575) ccw
  line L59 (-42.375, -60.575) -> (-42.375, -73.575)
  arc A59 (-42.875, -74.075) -> (-42.375, -73.575) centre (-42.875, -73.575) ccw
  line L60 (-23.825, -55.025) -> (-36.825, -55.025)
  arc A60 (-37.325, -54.525) -> (-36.825, -55.025) centre (-36.825, -54.525) ccw
  line L61 (-37.325, -54.525) -> (-37.325, -41.525)
  arc A61 (-36.825, -41.025) -> (-37.325, -41.525) centre (-36.825, -41.525) ccw
  line L62 (-36.825, -41.025) -> (-23.825, -41.025)
  arc A62 (-23.325, -41.525) -> (-23.825, -41.025) centre (-23.825, -41.525) ccw
  line L63 (-23.325, -41.525) -> (-23.325, -54.525)
  arc A63 (-23.825, -55.025) -> (-23.325, -54.525) centre (-23.825, -54.525) ccw
  line L64 (-23.825, -16.925) -> (-36.825, -16.925)
  arc A64 (-37.325, -16.425) -> (-36.825, -16.925) centre (-36.825, -16.425) ccw
  line L65 (-37.325, -16.425) -> (-37.325, -3.425)
  arc A65 (-36.825, -2.925) -> (-37.325, -3.425) centre (-36.825, -3.425) ccw
  line L66 (-36.825, -2.925) -> (-23.825, -2.925)
  arc A66 (-23.325, -3.425) -> (-23.825, -2.925) centre (-23.825, -3.425) ccw
  line L67 (-23.325, -3.425) -> (-23.325, -16.425)
  arc A67 (-23.825, -16.925) -> (-23.325, -16.425) centre (-23.825, -16.425) ccw
  circle A68 centre (5, -85) radius 1.45
  circle A69 centre (-105, 5) radius 1.45
  circle A70 centre (5, 5) radius 1.45
  circle A71 centre (-105, -85) radius 1.45
  line L68 (-94.275, -68.595) -> (-82.275, -68.595)
  line L69 (-82.275, -68.595) -> (-82.275, -39.095)
  line L70 (-82.275, -39.095) -> (-94.275, -39.095)
  line L71 (-94.275, -39.095) -> (-94.275, -68.595)
  line L72 (-99.82, -79.43) -> (0, -79.43)
  line L73 (-77.95, -0.4) -> (-77.95, -76.6)
  dimension "d11" = 12
  dimension "d12" = 29.5
  dimension "d13" = 10.835
  dimension "d14" = 4.325
extrude "Extrude5" cut sketch "Sketch4" against normal blind 5 contours L68 L69 L70 L71 bodies 2
sketch "Sketch5" plane through (0, 0, 10) normal (0, 0, 1) x (1, 0, 0)
  line L0 (105, 0) -> (105, 13)
  line L1 (105, 13) -> (-5, 13)
  line L2 (-5, 13) -> (-5, 0)
  line L3 (-5, 0) -> (105, 0)
  line L4 (97.35, 2.9398) -> (86, 2.9398)
  line L5 (86, 2.9398) -> (86, 10)
  line L6 (86, 10) -> (97.35, 10)
  line L7 (97.35, 10) -> (97.35, 2.9398)
extrude "Extrude6" cut sketch "Sketch5" against normal blind 10 contours L4 L5 L6 L7 bodies 1
hidden bodies 2
